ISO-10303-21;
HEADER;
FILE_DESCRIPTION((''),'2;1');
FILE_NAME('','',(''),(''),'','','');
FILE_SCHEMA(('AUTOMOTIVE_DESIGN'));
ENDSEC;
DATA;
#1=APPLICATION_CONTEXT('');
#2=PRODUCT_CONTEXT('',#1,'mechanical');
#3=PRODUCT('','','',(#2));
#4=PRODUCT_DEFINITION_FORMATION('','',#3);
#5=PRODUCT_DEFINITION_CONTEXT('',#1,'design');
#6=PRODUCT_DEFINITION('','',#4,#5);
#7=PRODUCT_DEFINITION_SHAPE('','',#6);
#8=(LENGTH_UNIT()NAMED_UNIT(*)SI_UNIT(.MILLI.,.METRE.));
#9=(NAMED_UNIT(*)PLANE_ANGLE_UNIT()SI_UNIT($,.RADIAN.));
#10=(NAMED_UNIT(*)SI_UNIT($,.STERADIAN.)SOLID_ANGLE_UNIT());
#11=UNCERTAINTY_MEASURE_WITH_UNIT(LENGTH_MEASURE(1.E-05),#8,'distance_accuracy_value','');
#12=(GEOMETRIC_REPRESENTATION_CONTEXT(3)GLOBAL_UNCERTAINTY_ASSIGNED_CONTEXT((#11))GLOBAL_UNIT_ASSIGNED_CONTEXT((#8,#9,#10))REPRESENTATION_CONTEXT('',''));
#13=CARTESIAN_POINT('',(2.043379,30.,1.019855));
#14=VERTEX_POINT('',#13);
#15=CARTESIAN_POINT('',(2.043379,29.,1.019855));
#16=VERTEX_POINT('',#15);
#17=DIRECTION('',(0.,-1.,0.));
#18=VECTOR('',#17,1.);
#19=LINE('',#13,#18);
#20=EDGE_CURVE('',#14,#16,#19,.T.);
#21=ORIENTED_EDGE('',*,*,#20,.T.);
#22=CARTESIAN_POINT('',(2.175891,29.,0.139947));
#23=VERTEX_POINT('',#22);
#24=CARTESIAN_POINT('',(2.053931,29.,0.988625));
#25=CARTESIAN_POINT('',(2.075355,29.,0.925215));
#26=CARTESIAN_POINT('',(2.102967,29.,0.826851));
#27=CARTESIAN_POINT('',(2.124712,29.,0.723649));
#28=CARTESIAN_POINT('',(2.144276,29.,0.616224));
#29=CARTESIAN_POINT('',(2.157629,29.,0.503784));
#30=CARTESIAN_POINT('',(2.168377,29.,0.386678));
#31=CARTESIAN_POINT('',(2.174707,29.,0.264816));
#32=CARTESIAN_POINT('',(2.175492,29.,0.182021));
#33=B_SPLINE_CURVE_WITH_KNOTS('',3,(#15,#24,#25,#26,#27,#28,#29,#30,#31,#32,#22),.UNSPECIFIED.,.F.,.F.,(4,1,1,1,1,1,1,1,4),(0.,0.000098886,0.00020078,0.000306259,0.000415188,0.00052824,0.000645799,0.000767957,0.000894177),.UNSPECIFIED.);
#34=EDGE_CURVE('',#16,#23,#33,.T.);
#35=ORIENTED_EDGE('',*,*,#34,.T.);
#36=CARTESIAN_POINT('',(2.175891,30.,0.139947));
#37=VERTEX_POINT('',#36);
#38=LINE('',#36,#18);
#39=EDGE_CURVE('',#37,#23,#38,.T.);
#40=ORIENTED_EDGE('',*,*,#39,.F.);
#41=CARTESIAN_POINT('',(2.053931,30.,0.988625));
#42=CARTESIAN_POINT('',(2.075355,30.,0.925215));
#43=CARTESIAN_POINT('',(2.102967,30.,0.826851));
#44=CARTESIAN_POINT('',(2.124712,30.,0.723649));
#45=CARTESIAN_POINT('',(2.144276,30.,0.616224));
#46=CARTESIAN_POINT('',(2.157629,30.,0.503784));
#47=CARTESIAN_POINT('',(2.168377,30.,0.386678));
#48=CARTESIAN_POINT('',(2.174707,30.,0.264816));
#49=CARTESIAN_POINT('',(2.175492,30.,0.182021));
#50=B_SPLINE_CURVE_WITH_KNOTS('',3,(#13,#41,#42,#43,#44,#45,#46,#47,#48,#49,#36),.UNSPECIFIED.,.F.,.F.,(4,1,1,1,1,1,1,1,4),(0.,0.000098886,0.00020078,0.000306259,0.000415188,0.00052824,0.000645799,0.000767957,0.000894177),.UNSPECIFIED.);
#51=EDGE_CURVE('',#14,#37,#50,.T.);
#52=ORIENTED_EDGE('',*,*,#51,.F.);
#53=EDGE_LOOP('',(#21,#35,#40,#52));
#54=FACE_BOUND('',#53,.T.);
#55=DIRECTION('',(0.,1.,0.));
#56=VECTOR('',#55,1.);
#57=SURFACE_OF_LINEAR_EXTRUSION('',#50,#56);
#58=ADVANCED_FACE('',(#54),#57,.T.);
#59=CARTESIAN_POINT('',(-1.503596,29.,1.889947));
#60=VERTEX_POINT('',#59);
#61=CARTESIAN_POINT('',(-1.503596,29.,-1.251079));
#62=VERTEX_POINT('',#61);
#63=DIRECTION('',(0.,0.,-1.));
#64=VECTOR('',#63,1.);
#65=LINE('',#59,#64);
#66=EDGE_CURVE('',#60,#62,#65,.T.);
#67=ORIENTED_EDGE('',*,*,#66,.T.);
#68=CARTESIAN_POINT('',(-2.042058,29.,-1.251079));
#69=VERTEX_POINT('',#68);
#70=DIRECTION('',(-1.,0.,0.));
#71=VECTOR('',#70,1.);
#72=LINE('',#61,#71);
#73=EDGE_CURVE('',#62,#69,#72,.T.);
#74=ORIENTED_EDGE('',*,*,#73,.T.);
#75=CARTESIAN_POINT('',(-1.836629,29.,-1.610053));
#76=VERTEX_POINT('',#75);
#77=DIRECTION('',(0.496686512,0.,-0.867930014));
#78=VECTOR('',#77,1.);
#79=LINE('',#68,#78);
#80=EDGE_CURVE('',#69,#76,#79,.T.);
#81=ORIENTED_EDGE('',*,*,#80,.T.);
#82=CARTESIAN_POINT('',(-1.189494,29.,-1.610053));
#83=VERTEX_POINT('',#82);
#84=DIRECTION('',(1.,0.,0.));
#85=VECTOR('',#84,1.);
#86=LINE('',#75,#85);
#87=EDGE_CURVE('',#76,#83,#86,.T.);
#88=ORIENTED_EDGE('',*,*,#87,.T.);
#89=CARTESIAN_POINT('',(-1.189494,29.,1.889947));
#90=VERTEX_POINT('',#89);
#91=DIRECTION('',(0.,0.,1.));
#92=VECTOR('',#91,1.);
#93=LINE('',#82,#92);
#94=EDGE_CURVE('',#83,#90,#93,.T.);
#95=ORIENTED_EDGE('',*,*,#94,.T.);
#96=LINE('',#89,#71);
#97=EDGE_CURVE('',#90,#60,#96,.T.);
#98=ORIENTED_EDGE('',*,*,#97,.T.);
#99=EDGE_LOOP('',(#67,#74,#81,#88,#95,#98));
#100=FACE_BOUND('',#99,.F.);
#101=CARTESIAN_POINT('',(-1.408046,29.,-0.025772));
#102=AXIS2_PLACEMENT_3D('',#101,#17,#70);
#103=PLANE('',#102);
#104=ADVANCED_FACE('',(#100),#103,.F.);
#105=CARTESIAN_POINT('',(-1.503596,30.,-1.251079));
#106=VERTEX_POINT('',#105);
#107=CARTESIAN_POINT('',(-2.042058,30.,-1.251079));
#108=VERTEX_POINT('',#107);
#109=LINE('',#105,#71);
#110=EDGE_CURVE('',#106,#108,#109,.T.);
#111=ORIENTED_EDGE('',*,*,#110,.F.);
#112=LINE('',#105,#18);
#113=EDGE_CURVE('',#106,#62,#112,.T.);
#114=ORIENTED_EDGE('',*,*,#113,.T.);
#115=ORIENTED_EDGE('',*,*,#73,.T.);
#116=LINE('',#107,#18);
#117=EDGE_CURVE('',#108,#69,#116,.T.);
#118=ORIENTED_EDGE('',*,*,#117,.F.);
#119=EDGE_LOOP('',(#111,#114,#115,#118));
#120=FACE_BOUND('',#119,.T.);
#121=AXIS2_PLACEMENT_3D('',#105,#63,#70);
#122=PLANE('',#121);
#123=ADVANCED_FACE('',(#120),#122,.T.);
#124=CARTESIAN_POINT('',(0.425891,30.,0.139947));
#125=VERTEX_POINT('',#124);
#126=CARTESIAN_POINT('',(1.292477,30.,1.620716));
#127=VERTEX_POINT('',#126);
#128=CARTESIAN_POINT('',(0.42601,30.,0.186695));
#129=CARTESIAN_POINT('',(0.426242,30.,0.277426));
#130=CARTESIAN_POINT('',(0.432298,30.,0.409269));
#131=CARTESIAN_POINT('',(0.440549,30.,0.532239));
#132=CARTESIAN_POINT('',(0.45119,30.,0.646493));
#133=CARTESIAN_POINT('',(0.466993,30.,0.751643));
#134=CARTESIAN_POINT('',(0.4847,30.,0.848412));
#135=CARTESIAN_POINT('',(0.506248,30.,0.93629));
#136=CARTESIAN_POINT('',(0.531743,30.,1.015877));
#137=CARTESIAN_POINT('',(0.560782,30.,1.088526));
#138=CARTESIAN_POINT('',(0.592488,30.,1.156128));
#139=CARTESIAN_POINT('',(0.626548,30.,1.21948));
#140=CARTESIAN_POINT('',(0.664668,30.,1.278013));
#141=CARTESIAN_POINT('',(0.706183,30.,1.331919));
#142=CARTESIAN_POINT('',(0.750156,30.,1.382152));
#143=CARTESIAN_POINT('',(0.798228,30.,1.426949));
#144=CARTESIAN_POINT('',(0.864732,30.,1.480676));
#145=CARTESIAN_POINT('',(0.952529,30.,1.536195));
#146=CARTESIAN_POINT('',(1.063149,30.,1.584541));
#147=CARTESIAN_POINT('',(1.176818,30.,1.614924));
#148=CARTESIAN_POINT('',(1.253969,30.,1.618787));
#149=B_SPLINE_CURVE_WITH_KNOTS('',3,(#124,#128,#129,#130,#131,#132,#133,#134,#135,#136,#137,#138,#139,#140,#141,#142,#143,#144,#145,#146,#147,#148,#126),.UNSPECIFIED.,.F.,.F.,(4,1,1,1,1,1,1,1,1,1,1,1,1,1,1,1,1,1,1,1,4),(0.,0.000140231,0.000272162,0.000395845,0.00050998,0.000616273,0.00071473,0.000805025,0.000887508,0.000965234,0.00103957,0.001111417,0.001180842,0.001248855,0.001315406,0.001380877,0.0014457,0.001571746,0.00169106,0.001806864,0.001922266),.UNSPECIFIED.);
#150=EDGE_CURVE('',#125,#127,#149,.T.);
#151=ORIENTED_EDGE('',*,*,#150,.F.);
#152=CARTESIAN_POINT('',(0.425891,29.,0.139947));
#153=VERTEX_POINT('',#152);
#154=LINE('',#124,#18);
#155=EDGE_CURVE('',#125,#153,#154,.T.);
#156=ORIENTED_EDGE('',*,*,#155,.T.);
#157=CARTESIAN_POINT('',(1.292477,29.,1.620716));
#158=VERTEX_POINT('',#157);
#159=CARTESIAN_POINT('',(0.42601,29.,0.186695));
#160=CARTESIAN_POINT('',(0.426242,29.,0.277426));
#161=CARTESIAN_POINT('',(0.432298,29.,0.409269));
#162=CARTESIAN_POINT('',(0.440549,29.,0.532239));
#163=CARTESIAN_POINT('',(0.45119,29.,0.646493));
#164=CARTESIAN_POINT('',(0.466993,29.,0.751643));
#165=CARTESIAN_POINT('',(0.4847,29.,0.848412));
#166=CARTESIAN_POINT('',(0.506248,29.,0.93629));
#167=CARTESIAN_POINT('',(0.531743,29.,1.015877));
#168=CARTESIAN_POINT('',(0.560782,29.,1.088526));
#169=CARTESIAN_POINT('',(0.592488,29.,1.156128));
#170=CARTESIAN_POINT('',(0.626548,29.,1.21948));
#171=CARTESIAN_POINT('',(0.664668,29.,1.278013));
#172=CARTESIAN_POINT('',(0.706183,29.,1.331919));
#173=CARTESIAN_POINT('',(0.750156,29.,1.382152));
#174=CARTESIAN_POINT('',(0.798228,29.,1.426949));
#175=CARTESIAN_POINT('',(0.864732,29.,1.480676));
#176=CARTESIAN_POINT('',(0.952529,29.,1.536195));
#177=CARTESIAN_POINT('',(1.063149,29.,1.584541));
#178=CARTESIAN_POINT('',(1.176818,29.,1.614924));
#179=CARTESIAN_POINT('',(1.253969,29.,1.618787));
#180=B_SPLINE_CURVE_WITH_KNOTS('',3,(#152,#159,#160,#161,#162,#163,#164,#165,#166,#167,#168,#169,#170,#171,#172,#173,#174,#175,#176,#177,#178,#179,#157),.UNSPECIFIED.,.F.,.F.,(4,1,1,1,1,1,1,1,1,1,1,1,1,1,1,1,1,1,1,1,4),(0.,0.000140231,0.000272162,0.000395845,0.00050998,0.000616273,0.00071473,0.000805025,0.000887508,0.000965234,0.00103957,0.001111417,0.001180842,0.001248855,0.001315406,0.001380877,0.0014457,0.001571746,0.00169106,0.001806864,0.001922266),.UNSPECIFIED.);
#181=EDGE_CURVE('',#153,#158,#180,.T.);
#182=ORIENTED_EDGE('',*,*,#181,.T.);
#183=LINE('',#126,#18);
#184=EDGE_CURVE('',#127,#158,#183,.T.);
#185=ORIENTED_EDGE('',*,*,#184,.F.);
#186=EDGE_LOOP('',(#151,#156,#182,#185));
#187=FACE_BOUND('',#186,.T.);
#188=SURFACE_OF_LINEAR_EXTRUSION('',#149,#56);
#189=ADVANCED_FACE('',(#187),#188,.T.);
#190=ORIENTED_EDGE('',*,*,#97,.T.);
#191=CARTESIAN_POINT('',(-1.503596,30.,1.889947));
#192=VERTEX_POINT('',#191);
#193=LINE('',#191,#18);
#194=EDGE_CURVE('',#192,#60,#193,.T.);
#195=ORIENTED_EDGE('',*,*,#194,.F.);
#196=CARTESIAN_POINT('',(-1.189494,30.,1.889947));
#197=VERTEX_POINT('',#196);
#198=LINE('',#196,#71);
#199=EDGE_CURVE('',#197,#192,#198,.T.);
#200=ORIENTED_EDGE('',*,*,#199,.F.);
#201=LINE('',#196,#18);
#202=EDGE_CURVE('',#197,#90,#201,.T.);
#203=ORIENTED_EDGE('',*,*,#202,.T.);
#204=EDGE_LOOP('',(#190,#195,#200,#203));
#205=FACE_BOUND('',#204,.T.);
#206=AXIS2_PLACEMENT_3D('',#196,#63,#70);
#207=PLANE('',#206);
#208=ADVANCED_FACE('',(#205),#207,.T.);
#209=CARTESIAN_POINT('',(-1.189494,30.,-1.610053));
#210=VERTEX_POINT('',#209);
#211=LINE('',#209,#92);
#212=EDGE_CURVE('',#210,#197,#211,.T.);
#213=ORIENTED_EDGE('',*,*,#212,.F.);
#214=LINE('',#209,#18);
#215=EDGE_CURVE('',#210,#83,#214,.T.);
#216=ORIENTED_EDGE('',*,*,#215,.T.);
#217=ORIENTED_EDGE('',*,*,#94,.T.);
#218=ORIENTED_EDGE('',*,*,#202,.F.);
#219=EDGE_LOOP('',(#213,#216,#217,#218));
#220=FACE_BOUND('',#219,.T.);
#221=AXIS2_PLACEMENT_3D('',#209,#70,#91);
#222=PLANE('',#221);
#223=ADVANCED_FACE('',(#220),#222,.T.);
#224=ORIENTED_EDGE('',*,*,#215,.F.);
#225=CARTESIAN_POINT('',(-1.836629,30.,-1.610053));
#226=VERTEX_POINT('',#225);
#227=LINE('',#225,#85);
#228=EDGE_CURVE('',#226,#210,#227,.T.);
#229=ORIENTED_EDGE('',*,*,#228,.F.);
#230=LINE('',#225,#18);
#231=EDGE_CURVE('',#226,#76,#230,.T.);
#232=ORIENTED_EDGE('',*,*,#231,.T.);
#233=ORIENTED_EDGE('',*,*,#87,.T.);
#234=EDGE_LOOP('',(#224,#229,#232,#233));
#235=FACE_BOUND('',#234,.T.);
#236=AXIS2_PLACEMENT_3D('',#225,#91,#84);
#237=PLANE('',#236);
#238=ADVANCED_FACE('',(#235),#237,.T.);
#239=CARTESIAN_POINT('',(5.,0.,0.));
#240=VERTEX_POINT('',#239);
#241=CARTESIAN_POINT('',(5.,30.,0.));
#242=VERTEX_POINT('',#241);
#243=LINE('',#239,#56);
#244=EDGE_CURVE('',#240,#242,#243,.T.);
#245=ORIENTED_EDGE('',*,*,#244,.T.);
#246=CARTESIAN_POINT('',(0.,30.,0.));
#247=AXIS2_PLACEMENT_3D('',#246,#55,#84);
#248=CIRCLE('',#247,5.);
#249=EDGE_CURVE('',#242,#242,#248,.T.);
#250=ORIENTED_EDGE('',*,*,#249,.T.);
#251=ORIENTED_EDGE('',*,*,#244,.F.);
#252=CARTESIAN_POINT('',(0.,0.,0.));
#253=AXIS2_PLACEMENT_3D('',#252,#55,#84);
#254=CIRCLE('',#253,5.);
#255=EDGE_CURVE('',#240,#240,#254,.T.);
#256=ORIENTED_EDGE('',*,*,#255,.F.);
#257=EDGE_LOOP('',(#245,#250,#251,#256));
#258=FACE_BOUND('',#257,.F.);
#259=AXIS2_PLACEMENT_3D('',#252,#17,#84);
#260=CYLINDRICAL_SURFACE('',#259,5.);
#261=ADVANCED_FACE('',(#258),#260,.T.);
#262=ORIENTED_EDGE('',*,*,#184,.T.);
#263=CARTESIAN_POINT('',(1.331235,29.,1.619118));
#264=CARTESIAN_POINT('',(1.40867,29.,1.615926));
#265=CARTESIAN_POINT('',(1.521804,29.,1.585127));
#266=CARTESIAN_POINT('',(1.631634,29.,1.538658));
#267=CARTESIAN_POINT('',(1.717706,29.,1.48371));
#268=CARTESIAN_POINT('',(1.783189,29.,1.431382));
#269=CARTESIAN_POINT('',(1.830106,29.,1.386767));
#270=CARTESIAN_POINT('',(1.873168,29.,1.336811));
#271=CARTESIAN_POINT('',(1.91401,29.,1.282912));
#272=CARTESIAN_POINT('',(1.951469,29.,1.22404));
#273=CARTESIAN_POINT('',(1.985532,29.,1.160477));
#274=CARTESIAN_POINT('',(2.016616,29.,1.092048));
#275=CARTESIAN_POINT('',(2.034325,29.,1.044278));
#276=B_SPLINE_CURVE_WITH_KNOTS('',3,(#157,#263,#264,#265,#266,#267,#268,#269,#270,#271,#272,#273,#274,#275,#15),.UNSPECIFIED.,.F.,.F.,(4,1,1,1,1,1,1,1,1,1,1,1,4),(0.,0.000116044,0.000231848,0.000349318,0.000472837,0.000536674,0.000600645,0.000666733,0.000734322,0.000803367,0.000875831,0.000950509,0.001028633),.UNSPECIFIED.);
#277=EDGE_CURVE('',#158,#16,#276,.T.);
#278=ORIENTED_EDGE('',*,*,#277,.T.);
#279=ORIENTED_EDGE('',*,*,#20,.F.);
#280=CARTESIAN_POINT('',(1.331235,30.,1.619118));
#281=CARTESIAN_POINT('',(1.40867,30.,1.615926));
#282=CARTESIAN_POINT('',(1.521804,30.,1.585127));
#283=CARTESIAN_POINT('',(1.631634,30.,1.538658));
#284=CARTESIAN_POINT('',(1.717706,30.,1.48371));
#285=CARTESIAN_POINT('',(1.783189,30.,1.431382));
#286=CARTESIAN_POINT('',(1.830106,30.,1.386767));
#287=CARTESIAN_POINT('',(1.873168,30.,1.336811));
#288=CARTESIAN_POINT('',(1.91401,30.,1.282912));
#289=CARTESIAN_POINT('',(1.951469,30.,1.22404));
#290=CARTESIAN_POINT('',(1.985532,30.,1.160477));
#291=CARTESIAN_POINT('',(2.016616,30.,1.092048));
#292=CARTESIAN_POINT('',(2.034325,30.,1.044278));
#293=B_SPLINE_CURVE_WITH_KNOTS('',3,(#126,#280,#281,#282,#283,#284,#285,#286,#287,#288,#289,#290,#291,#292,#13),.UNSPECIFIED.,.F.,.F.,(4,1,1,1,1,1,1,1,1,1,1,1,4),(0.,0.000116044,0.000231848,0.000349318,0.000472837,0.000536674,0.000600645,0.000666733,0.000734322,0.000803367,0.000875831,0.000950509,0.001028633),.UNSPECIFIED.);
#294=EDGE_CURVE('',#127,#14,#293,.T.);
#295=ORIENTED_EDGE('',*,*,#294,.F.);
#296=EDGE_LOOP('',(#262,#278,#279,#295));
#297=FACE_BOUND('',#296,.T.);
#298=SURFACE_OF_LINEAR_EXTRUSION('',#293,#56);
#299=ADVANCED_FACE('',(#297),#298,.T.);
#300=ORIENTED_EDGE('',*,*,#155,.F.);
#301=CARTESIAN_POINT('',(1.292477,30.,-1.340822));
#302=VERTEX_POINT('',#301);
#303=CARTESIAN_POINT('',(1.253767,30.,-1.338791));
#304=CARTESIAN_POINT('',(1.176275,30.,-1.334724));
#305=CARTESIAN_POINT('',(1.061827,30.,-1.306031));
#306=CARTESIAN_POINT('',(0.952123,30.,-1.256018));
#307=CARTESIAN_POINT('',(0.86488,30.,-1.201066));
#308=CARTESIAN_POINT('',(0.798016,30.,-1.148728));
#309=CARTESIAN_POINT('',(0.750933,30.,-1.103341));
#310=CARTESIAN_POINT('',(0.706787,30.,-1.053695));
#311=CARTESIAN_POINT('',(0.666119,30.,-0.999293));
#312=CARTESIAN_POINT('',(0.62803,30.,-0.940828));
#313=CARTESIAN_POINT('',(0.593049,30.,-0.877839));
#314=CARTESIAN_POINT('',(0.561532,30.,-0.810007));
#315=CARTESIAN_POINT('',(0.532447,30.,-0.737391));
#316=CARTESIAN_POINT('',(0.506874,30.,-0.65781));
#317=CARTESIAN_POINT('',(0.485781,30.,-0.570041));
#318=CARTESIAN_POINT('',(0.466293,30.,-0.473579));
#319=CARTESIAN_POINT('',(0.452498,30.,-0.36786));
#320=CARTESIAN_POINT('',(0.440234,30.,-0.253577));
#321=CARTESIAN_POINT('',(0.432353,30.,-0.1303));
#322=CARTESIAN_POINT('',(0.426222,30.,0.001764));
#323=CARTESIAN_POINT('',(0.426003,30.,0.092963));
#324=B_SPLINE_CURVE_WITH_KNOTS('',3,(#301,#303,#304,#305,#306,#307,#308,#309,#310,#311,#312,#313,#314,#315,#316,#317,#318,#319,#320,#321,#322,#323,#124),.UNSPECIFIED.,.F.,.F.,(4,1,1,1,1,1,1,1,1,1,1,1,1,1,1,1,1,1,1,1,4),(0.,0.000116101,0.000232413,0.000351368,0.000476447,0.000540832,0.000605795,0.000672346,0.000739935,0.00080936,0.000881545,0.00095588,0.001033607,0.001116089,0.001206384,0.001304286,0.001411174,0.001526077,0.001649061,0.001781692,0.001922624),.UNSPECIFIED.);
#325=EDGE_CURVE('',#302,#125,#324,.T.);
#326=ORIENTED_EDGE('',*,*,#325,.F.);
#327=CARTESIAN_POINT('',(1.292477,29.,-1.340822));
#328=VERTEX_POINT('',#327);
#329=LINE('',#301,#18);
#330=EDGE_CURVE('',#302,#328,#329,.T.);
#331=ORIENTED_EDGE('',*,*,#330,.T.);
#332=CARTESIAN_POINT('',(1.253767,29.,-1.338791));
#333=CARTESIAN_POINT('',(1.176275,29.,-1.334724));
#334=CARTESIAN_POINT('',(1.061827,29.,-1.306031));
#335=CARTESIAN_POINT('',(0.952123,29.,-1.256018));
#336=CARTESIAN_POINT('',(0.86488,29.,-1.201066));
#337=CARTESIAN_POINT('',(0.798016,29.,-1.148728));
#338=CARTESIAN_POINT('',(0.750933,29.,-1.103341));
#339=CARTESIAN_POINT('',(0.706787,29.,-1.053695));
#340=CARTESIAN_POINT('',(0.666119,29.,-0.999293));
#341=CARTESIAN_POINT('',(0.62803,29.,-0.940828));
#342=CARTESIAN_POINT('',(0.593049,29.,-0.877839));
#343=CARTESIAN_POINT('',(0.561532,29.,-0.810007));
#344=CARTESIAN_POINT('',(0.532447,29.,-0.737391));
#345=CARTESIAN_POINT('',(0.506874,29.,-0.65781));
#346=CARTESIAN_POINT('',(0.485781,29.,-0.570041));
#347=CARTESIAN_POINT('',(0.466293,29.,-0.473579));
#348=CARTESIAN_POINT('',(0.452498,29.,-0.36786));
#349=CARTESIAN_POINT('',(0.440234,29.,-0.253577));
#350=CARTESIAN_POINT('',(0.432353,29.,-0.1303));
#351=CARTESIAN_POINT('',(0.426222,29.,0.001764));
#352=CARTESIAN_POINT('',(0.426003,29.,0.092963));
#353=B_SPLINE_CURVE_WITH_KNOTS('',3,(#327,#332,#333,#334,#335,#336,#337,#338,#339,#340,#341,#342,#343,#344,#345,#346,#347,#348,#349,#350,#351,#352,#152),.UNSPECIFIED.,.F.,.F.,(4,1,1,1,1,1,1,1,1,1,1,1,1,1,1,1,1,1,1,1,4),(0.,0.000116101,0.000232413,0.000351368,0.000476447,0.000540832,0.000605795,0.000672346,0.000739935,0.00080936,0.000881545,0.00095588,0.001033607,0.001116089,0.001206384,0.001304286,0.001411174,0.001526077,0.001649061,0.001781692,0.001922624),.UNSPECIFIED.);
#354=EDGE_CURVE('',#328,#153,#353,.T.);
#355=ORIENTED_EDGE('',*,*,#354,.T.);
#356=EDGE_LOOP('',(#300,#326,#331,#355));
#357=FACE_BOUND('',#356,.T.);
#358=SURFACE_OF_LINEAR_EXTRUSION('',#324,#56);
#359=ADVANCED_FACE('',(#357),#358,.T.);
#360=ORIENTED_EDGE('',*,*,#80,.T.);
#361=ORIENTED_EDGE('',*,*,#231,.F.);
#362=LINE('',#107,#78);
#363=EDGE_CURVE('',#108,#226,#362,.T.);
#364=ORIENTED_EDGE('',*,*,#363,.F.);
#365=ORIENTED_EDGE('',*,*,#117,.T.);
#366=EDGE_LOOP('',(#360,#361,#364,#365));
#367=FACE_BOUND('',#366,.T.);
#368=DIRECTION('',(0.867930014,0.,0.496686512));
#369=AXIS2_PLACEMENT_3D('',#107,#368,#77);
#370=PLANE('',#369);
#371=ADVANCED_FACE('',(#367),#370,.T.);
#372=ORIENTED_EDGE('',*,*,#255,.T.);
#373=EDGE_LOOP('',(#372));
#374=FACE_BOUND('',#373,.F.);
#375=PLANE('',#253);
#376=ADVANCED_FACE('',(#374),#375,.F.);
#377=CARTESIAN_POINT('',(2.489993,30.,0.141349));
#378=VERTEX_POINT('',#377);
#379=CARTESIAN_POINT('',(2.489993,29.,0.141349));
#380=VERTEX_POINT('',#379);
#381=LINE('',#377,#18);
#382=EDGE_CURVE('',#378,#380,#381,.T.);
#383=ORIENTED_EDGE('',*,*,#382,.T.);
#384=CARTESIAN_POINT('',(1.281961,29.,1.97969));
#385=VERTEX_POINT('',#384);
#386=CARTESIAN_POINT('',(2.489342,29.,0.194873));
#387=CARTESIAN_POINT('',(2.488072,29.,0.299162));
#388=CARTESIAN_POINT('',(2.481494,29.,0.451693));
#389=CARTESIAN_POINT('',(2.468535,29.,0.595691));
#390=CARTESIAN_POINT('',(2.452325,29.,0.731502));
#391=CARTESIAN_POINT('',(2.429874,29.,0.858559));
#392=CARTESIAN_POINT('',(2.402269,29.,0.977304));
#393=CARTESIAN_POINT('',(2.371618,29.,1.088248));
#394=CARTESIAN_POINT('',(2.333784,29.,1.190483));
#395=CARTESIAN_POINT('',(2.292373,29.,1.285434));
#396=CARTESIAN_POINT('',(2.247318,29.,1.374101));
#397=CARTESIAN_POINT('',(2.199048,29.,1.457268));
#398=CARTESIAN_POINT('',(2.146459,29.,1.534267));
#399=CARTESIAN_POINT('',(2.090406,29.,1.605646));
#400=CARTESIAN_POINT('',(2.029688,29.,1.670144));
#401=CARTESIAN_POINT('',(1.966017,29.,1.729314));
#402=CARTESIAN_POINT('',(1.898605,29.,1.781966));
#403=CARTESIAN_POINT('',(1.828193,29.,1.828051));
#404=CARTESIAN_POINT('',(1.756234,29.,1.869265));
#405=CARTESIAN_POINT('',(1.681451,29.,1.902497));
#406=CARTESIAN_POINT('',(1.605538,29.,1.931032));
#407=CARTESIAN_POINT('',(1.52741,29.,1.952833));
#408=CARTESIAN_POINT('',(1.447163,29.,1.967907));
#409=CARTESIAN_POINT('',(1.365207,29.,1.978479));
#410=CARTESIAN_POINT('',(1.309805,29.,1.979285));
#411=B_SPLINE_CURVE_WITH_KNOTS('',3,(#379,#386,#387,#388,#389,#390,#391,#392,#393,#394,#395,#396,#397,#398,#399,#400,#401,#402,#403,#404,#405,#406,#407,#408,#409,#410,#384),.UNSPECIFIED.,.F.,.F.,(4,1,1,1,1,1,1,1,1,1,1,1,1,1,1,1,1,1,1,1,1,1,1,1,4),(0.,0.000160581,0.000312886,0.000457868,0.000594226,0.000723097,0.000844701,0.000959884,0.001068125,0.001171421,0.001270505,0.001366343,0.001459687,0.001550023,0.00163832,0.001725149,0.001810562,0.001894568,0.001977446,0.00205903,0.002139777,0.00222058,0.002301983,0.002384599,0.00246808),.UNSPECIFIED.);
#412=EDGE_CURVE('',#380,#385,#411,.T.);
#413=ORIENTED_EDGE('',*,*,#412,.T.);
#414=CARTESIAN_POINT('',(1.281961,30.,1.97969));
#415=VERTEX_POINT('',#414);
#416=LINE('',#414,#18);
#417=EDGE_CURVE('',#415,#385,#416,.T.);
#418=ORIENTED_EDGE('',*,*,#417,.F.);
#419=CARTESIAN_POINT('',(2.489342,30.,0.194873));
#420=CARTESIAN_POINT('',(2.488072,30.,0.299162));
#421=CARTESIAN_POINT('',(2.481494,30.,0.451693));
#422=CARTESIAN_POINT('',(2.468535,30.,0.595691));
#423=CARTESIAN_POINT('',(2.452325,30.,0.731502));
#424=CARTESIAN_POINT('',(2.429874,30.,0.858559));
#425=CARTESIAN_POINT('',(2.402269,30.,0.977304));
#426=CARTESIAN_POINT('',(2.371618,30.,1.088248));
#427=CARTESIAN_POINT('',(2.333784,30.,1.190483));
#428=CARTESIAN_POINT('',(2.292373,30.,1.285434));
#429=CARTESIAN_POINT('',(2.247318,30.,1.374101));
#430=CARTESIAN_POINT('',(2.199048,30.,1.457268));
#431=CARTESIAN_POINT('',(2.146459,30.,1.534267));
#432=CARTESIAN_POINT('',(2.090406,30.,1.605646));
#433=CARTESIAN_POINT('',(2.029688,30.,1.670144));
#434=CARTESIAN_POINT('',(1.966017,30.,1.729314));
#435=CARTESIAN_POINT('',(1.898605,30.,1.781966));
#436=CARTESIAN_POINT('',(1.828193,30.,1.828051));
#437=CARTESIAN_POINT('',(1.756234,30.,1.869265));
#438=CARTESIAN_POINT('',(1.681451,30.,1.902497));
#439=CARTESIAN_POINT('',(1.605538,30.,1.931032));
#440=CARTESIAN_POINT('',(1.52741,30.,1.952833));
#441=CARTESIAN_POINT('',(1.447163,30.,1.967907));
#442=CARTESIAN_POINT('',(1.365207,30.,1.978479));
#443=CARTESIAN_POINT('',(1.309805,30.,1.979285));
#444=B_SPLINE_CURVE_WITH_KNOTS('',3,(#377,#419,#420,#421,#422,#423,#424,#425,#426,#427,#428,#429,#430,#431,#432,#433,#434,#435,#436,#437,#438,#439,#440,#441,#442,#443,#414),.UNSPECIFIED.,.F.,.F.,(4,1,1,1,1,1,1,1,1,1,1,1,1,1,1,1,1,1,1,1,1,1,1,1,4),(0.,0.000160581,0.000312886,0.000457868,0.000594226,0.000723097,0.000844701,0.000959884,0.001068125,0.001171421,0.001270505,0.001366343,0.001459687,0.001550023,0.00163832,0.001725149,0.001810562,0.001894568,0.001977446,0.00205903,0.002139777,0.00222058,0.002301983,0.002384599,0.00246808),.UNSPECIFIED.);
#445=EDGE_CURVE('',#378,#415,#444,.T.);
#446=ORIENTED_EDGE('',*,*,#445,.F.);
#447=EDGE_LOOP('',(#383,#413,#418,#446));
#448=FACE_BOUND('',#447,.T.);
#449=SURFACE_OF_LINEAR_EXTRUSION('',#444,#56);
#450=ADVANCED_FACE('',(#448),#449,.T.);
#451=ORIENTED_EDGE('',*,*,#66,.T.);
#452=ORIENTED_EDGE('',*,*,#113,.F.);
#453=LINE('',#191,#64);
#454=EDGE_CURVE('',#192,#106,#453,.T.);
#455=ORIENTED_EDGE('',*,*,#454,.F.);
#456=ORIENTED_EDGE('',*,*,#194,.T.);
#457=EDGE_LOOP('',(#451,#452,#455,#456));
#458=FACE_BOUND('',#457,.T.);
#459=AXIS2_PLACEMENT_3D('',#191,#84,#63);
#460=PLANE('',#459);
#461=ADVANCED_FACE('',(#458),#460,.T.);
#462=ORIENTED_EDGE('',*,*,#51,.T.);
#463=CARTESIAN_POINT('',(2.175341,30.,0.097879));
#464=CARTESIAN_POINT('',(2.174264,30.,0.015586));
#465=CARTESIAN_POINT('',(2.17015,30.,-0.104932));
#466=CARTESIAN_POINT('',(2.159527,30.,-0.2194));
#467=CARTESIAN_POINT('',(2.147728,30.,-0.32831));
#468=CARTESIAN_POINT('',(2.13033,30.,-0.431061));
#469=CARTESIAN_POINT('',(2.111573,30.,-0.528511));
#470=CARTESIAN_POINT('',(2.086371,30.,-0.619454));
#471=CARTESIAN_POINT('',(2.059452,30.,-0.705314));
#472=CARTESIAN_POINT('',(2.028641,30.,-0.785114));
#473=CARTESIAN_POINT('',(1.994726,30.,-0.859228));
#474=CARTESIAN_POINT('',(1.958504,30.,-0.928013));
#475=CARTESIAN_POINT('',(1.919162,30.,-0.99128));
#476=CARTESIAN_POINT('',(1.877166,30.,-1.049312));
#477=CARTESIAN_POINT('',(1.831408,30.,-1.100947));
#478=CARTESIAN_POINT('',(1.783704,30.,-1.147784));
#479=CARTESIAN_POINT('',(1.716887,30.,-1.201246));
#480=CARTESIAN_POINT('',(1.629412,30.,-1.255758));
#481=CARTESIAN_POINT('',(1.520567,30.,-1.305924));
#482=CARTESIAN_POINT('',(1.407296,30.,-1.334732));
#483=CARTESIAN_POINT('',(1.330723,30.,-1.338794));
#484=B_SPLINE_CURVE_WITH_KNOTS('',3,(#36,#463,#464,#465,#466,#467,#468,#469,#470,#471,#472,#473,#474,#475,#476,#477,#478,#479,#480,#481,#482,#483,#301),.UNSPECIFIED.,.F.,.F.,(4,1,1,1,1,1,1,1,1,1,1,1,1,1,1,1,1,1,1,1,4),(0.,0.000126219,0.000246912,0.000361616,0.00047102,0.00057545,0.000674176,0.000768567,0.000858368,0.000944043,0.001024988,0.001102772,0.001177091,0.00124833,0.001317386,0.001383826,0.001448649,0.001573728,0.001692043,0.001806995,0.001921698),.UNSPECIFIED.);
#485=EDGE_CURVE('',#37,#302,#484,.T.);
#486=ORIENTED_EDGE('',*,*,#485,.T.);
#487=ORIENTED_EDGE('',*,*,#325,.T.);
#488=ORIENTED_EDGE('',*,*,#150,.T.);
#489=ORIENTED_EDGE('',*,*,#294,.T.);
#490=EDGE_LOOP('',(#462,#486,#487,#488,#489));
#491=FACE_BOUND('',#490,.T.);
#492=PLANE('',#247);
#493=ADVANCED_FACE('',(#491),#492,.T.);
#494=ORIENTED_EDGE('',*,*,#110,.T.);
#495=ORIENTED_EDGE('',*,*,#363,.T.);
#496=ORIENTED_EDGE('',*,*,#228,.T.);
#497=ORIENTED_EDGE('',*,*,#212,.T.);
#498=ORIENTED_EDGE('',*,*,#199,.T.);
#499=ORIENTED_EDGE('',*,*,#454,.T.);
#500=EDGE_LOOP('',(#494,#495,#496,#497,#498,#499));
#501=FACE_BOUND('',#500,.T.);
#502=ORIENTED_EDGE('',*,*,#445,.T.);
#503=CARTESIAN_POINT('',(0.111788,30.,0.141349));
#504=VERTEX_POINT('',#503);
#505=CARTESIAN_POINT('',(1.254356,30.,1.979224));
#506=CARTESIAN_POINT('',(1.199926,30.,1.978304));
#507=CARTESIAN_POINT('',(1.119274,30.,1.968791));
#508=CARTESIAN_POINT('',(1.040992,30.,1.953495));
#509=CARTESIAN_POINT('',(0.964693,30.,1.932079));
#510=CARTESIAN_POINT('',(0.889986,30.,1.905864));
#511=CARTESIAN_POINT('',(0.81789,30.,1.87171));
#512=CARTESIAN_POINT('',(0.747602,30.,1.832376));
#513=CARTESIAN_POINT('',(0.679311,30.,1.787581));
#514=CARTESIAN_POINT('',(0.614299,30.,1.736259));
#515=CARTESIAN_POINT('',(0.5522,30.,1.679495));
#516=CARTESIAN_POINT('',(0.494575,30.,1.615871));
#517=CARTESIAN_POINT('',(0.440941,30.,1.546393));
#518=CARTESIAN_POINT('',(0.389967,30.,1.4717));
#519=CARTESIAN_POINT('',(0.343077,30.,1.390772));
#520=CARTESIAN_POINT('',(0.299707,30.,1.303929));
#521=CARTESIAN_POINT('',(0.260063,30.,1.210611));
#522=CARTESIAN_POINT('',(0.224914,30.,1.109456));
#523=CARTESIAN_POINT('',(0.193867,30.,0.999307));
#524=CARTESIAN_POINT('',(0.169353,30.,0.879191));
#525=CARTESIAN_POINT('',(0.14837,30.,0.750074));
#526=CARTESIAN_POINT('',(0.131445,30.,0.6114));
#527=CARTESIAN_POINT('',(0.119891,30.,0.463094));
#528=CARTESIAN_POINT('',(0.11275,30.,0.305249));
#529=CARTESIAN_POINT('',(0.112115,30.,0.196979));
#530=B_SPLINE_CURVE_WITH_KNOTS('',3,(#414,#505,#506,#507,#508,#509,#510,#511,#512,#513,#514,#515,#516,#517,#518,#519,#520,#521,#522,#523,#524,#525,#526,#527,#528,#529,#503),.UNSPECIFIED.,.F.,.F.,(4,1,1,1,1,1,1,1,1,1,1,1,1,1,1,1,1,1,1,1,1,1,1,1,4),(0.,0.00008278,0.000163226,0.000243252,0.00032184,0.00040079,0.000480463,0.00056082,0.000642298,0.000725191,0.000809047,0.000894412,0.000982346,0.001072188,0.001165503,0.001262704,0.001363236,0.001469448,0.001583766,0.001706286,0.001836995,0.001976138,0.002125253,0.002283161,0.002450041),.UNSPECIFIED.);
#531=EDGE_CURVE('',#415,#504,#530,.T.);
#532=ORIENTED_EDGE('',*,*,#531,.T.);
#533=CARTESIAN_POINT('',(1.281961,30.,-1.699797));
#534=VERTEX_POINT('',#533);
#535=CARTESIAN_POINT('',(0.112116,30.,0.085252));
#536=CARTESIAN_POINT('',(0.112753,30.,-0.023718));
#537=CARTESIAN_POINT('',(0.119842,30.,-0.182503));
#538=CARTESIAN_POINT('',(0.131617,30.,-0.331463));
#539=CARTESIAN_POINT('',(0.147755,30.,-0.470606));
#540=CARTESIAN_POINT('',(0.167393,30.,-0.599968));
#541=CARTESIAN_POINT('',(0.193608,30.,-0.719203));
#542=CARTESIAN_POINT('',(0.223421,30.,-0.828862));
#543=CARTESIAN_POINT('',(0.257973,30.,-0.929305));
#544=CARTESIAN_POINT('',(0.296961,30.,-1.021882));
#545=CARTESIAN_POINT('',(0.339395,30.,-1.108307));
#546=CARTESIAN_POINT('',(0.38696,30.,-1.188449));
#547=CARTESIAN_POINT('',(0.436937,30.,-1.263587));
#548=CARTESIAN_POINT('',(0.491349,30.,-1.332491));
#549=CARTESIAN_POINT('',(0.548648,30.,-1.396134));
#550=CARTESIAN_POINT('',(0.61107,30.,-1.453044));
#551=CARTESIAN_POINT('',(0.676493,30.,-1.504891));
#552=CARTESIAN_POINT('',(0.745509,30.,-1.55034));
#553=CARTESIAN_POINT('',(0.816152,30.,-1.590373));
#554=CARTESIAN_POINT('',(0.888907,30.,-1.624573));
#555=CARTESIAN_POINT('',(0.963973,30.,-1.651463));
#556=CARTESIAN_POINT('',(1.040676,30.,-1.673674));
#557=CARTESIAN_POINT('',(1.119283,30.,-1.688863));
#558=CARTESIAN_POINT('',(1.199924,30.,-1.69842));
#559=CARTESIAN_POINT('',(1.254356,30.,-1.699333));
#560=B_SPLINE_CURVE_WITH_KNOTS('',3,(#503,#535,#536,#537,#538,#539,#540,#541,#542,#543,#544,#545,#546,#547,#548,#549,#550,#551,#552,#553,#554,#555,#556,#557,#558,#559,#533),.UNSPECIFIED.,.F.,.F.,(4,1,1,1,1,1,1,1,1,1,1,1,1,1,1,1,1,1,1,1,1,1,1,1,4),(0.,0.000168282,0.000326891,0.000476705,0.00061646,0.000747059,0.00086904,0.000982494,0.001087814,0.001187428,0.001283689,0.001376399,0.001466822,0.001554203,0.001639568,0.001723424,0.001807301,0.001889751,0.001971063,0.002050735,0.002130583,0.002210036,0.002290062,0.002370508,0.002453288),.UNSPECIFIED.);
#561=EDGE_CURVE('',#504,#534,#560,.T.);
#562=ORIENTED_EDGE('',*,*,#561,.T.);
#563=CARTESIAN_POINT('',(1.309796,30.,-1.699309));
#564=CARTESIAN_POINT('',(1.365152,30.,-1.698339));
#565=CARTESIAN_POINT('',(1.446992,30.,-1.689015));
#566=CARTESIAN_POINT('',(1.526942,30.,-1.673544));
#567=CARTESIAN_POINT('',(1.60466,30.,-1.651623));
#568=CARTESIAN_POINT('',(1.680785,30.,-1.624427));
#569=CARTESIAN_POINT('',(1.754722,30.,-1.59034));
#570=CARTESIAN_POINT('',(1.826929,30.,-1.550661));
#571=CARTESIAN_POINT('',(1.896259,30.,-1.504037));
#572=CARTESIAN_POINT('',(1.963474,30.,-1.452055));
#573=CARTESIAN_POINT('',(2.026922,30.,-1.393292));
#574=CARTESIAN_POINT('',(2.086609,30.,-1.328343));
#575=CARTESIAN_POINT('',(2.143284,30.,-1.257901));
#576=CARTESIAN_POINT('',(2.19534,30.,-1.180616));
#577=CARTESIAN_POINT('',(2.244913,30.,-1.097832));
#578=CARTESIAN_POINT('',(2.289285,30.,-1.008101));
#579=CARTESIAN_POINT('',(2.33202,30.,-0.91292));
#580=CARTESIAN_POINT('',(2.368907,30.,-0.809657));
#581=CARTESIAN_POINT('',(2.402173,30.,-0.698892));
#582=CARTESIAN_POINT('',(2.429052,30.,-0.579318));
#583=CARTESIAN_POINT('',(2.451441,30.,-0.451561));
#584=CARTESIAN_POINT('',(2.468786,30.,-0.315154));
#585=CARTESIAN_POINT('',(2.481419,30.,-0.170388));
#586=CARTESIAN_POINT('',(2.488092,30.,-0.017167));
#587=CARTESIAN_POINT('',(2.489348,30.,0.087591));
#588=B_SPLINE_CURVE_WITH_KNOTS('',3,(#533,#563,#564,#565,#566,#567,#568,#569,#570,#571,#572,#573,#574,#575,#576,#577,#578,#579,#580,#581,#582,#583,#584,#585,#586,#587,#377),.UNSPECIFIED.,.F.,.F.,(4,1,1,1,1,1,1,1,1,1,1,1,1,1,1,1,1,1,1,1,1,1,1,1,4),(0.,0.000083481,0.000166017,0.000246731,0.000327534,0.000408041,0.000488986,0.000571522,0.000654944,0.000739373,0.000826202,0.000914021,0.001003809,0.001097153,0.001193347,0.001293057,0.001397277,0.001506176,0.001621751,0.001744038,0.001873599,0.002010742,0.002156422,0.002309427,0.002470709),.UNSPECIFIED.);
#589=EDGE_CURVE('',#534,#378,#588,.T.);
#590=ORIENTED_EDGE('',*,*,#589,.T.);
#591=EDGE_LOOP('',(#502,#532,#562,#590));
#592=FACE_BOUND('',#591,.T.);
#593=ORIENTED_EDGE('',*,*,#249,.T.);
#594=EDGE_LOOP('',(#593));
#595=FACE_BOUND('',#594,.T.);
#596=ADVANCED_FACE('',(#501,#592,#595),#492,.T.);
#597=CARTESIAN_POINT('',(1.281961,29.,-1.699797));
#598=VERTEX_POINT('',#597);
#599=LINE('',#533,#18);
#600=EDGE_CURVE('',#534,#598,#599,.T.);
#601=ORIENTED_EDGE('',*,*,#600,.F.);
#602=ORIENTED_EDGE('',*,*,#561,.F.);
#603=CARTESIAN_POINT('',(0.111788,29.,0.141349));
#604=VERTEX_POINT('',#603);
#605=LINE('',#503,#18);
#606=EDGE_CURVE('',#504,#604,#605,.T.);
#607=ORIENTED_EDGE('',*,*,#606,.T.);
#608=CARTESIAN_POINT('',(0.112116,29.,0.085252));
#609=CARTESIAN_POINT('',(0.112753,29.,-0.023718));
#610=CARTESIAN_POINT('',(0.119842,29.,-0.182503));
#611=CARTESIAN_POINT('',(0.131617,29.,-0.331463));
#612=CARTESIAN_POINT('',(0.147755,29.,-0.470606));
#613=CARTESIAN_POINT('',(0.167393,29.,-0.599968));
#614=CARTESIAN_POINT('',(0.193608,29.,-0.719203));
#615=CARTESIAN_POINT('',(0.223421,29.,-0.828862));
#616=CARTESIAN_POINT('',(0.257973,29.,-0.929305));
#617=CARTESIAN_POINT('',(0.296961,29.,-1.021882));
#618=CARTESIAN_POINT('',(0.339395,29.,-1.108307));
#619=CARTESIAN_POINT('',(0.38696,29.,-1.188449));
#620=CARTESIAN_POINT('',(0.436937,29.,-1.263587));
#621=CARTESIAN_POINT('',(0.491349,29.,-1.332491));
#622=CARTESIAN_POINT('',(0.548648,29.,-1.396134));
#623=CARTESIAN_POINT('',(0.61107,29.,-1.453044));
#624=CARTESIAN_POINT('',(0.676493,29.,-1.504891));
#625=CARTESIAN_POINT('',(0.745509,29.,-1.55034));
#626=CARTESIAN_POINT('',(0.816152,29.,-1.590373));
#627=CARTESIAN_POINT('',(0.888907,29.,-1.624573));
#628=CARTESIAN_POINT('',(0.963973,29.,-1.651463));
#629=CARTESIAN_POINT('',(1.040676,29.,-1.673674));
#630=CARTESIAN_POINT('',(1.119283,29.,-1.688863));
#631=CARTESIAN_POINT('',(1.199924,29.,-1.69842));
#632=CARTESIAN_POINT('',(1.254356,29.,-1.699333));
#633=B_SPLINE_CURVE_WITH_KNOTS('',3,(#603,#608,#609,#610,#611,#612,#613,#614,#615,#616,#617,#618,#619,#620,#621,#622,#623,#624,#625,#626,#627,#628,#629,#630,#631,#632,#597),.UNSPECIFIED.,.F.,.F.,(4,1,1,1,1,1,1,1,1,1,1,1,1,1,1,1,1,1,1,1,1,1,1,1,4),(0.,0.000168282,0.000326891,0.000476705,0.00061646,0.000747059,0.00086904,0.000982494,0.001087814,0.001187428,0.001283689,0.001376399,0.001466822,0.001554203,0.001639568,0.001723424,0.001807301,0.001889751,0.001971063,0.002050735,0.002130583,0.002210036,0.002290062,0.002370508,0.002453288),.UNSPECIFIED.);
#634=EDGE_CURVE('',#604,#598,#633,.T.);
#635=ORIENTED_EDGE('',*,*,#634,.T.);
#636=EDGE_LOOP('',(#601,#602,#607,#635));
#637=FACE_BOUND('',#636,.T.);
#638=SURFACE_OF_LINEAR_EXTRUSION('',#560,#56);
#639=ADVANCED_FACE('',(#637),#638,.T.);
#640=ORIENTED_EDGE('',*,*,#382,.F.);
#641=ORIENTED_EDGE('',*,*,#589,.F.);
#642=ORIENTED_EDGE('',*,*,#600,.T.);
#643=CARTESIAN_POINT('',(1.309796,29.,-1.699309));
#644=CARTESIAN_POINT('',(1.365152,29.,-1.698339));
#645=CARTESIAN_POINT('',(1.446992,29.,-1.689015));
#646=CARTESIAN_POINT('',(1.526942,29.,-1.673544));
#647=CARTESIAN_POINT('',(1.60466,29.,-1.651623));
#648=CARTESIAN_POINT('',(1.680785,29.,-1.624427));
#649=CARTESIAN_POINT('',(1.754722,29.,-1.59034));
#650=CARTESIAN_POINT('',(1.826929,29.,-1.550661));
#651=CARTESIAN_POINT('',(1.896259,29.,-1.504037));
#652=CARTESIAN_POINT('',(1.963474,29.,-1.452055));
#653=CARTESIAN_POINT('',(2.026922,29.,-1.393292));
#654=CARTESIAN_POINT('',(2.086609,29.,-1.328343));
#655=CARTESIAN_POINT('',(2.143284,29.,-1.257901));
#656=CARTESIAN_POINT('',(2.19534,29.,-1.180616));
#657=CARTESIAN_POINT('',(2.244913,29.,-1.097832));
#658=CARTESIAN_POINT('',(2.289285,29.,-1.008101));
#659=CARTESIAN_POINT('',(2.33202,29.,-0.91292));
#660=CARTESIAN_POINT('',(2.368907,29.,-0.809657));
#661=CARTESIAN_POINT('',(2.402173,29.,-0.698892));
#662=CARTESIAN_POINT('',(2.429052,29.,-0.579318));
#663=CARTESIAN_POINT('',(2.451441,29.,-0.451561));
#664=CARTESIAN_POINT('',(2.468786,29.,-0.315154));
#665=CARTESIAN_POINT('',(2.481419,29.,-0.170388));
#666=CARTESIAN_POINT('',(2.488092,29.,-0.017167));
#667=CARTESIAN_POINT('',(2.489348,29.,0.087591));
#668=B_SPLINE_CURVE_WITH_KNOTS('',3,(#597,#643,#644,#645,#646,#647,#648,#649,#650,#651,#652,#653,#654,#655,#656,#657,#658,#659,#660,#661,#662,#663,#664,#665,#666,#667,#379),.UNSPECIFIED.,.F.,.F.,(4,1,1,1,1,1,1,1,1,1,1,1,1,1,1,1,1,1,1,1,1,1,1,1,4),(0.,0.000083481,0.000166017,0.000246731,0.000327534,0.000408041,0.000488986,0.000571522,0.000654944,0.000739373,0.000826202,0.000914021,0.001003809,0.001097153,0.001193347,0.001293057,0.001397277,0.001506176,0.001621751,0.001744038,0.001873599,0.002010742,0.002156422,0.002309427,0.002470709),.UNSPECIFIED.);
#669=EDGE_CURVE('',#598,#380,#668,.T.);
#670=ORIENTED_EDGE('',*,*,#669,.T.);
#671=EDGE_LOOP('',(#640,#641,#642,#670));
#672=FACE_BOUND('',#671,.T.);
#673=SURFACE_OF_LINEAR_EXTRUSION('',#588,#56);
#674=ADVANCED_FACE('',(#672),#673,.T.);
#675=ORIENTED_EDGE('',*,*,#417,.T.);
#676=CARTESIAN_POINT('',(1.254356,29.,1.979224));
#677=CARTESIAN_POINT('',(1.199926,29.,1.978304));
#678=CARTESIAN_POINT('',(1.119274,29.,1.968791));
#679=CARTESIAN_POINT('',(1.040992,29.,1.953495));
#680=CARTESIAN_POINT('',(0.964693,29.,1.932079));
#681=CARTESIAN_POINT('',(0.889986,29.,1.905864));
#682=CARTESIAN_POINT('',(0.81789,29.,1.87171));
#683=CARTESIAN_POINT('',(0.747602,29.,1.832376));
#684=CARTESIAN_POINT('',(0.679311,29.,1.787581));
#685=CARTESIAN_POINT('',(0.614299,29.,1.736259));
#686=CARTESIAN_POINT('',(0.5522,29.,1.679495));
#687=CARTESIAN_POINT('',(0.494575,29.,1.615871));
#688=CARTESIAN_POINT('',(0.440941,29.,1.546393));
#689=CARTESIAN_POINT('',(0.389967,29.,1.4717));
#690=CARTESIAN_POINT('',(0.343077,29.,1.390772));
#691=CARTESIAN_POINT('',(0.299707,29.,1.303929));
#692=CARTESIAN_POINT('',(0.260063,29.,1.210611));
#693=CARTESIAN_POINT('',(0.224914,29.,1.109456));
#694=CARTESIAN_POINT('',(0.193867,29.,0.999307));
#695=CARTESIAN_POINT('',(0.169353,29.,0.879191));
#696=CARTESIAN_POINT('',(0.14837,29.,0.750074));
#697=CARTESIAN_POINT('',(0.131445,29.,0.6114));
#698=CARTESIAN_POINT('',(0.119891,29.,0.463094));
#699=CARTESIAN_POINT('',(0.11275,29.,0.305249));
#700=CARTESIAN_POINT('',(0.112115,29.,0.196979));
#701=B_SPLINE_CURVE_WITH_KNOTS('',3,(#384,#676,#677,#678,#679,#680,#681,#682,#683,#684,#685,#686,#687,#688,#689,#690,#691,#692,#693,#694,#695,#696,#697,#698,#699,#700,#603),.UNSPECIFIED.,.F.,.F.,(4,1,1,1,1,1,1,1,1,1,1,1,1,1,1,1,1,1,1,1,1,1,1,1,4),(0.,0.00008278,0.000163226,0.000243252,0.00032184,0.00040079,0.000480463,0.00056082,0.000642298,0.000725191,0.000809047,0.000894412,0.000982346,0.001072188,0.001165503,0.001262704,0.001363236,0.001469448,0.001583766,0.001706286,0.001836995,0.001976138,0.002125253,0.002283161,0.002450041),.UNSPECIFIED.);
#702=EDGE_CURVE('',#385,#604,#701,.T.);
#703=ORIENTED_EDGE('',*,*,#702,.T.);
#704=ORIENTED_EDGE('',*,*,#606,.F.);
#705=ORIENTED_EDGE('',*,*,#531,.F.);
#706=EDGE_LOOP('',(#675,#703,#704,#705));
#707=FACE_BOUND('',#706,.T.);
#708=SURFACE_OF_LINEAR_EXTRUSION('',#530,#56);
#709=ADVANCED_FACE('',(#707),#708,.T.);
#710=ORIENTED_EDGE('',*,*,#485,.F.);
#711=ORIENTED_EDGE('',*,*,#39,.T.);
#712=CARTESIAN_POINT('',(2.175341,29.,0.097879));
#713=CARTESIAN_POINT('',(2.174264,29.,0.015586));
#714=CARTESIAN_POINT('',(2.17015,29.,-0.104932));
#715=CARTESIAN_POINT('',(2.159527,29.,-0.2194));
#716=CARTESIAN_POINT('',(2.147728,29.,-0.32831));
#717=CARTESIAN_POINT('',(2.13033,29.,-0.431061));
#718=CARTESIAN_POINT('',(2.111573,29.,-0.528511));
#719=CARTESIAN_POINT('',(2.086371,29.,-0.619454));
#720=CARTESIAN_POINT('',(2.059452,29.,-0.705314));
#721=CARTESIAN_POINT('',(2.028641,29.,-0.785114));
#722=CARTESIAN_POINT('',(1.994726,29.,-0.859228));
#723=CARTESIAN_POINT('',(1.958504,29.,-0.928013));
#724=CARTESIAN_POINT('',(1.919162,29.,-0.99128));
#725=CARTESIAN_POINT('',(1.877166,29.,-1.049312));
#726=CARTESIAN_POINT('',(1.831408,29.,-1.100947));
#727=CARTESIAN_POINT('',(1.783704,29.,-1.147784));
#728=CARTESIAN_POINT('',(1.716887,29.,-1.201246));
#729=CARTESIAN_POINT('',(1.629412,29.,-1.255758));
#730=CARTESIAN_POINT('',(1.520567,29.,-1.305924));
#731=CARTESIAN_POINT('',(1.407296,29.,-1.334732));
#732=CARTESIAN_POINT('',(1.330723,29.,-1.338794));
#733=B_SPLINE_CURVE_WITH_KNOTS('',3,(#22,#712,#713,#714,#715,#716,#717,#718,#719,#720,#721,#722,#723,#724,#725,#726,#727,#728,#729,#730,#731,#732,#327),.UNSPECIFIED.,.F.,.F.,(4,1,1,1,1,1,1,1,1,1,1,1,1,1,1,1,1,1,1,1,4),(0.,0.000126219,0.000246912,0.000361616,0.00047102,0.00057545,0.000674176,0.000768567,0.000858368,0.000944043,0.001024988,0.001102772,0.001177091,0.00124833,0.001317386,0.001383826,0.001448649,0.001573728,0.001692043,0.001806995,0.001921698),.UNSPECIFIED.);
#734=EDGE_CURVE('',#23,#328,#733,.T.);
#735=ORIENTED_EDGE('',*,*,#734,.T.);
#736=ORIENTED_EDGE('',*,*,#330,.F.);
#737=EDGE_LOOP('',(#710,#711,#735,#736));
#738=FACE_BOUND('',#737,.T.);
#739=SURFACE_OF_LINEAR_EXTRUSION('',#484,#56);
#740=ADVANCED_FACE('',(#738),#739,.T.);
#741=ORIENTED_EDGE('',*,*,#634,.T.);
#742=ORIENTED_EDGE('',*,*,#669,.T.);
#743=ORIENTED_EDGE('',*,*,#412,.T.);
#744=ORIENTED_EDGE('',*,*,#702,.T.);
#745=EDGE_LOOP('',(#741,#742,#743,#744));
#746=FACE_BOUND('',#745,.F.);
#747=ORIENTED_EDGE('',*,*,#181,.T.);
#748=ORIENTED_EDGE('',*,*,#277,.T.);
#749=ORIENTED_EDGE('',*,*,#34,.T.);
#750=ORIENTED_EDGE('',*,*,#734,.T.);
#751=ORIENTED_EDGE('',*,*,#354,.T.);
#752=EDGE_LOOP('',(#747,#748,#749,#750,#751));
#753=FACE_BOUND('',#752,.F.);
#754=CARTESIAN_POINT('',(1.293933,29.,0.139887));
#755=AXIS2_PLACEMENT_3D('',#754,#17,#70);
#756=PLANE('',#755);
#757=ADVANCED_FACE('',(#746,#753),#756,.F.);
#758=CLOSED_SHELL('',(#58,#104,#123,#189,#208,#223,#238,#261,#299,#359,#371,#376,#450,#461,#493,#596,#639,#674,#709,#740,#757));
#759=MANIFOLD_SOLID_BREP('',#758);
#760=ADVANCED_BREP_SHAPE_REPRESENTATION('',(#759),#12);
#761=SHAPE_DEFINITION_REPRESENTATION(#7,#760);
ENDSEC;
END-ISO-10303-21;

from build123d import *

# Parameters (mm, degrees)
SKETCH1_R           = 5
BOSS_EXTRUDE1_DEPTH = 30
CUT_EXTRUDE1_DEPTH  = 1


with BuildPart() as part:
    # Sketch1 → Boss-Extrude1 (new body)
    with BuildSketch(Plane(origin=(0, 0, 0), x_dir=(1, 0, 0), z_dir=(0, 1, 0))):
        Circle(SKETCH1_R)
    extrude(amount=BOSS_EXTRUDE1_DEPTH)

    # Sketch2 → Cut-Extrude1 (cut)
    with BuildSketch(Plane(origin=(0, 30, 0), x_dir=(1, 0, 0), z_dir=(0, 1, 0))):
        Polygon((-1.836629209, 1.610053215), (-1.189493792, 1.610053215), (-1.189493792, -1.889946785), (-1.503596356, -1.889946785), (-1.503596356, 1.251078856), (-2.042057895, 1.251078856), align=None)
        with BuildLine():
            add(Edge.make_bspline(
                [(0.111788259, -0.141349029), (0.112116277, -0.085251641), (0.112753457, 0.023718343), (0.119841878, 0.182502986), (0.131617221, 0.331463275), (0.147754593, 0.470606341), (0.167392574, 0.599968105), (0.19360806, 0.719202862), (0.223420863, 0.828862469), (0.257973309, 0.929304517), (0.296961098, 1.02188222), (0.339395358, 1.108307422), (0.386960153, 1.188449354), (0.436937066, 1.263587144), (0.491349137, 1.332490839), (0.548647928, 1.396133502), (0.611069804, 1.453044252), (0.676492812, 1.504890555), (0.745509277, 1.550340026), (0.816151943, 1.590372765), (0.888907049, 1.624572632), (0.963973232, 1.651463068), (1.04067579, 1.673673915), (1.119282856, 1.688862862), (1.19992422, 1.698419771), (1.254355655, 1.699333439), (1.281960535, 1.699796805)],
                knots=[0, 0, 0, 0, 0.000168282, 0.000326891, 0.000476705, 0.00061646, 0.000747059, 0.00086904, 0.000982494, 0.001087814, 0.001187428, 0.001283689, 0.001376399, 0.001466822, 0.001554203, 0.001639568, 0.001723424, 0.001807301, 0.001889751, 0.001971063, 0.002050735, 0.002130583, 0.002210036, 0.002290062, 0.002370508, 0.002453288, 0.002453288, 0.002453288, 0.002453288], degree=3))
            add(Edge.make_bspline(
                [(1.281960535, 1.699796805), (1.309796013, 1.69930899), (1.365152022, 1.698338879), (1.446992397, 1.689014936), (1.526942079, 1.673543813), (1.604660218, 1.651622839), (1.680785204, 1.624427162), (1.754721612, 1.590340045), (1.826928694, 1.550661177), (1.896258981, 1.5040373), (1.963473596, 1.452055024), (2.026921559, 1.393292355), (2.086608645, 1.328342636), (2.143283951, 1.257900772), (2.195339548, 1.180615687), (2.24491298, 1.097831577), (2.289285016, 1.008100712), (2.332019691, 0.912920245), (2.368906678, 0.809656586), (2.402172923, 0.698891825), (2.429051892, 0.579317638), (2.451441164, 0.451561393), (2.46878606, 0.31515391), (2.481418702, 0.170387594), (2.488091787, 0.017167204), (2.489348488, -0.087590645), (2.489993387, -0.141349029)],
                knots=[0, 0, 0, 0, 8.3481e-05, 0.000166017, 0.000246731, 0.000327534, 0.000408041, 0.000488986, 0.000571522, 0.000654944, 0.000739373, 0.000826202, 0.000914021, 0.001003809, 0.001097153, 0.001193347, 0.001293057, 0.001397277, 0.001506176, 0.001621751, 0.001744038, 0.001873599, 0.002010742, 0.002156422, 0.002309427, 0.002470709, 0.002470709, 0.002470709, 0.002470709], degree=3))
            add(Edge.make_bspline(
                [(2.489993387, -0.141349029), (2.489341803, -0.194872936), (2.488072217, -0.299162088), (2.48149351, -0.451693064), (2.468534879, -0.595691107), (2.452324891, -0.731501569), (2.429873928, -0.858559188), (2.402268761, -0.977303637), (2.371618439, -1.088247708), (2.333783644, -1.19048252), (2.292372934, -1.285434243), (2.247317738, -1.374101391), (2.199047912, -1.457267684), (2.146459167, -1.534267431), (2.090405754, -1.605646088), (2.029687965, -1.670143711), (1.96601738, -1.729314382), (1.898604964, -1.78196601), (1.828193413, -1.828050815), (1.756234336, -1.869264665), (1.681450952, -1.90249736), (1.605538, -1.931032401), (1.527409634, -1.952832853), (1.447163243, -1.967906708), (1.365207007, -1.978478557), (1.309805442, -1.979285037), (1.281960535, -1.979690375)],
                knots=[0, 0, 0, 0, 0.000160581, 0.000312886, 0.000457868, 0.000594226, 0.000723097, 0.000844701, 0.000959884, 0.001068125, 0.001171421, 0.001270505, 0.001366343, 0.001459687, 0.001550023, 0.00163832, 0.001725149, 0.001810562, 0.001894568, 0.001977446, 0.00205903, 0.002139777, 0.00222058, 0.002301983, 0.002384599, 0.00246808, 0.00246808, 0.00246808, 0.00246808], degree=3))
            add(Edge.make_bspline(
                [(1.281960535, -1.979690375), (1.254356421, -1.979224019), (1.199926496, -1.978304457), (1.119274071, -1.968790726), (1.040991627, -1.953495223), (0.964692873, -1.932078618), (0.889986358, -1.905863782), (0.817890071, -1.871710099), (0.747602388, -1.83237603), (0.679310832, -1.787580608), (0.614298671, -1.736258925), (0.552200065, -1.679494636), (0.494575046, -1.615871225), (0.440940951, -1.546393302), (0.389966862, -1.47170006), (0.343077489, -1.390771687), (0.299706635, -1.303929076), (0.260063144, -1.210611165), (0.224914481, -1.109456238), (0.193866773, -0.999307059), (0.169352615, -0.879191423), (0.14836966, -0.750074056), (0.131445277, -0.611400125), (0.119890952, -0.463094347), (0.112749637, -0.305249138), (0.112114566, -0.196979364), (0.111788259, -0.141349029)],
                knots=[0, 0, 0, 0, 8.278e-05, 0.000163226, 0.000243252, 0.00032184, 0.00040079, 0.000480463, 0.00056082, 0.000642298, 0.000725191, 0.000809047, 0.000894412, 0.000982346, 0.001072188, 0.001165503, 0.001262704, 0.001363236, 0.001469448, 0.001583766, 0.001706286, 0.001836995, 0.001976138, 0.002125253, 0.002283161, 0.002450041, 0.002450041, 0.002450041, 0.002450041], degree=3))
        make_face()
        with BuildLine():
            add(Edge.make_bspline(
                [(0.425890823, -0.139946785), (0.42601027, -0.186695484), (0.426242094, -0.277425529), (0.432298294, -0.40926879), (0.440548526, -0.532239118), (0.451189823, -0.646492655), (0.466992772, -0.751642667), (0.48469956, -0.84841235), (0.506247649, -0.936289587), (0.531742667, -1.015877398), (0.560781764, -1.088526467), (0.592487628, -1.156127682), (0.626548351, -1.219479618), (0.664667501, -1.278013227), (0.706182564, -1.331919391), (0.750155824, -1.382152223), (0.798228408, -1.426949204), (0.86473215, -1.480676059), (0.952528625, -1.536195193), (1.06314908, -1.584541283), (1.176817531, -1.614923739), (1.253968781, -1.618787495), (1.292477362, -1.620716016)],
                knots=[0, 0, 0, 0, 0.000140231, 0.000272162, 0.000395845, 0.00050998, 0.000616273, 0.00071473, 0.000805025, 0.000887508, 0.000965234, 0.00103957, 0.001111417, 0.001180842, 0.001248855, 0.001315406, 0.001380877, 0.0014457, 0.001571746, 0.00169106, 0.001806864, 0.001922266, 0.001922266, 0.001922266, 0.001922266], degree=3))
            add(Edge.make_bspline(
                [(1.292477362, -1.620716016), (1.331235033, -1.619118235), (1.408670357, -1.615925972), (1.521804152, -1.585127235), (1.631634422, -1.538657695), (1.717706362, -1.48371019), (1.783188906, -1.43138186), (1.830105896, -1.386767212), (1.873167944, -1.336811345), (1.914010019, -1.282912049), (1.951469095, -1.224039565), (1.985532232, -1.160476989), (2.01661558, -1.092047811), (2.034324626, -1.044278072), (2.043378804, -1.019854638)],
                knots=[0, 0, 0, 0, 0.000116044, 0.000231848, 0.000349318, 0.000472837, 0.000536674, 0.000600645, 0.000666733, 0.000734322, 0.000803367, 0.000875831, 0.000950509, 0.001028633, 0.001028633, 0.001028633, 0.001028633], degree=3))
            add(Edge.make_bspline(
                [(2.043378804, -1.019854638), (2.053930572, -0.988624898), (2.075355186, -0.925215134), (2.10296696, -0.826851482), (2.124712359, -0.723648718), (2.144275725, -0.616223601), (2.157628781, -0.5037839), (2.168376594, -0.386677516), (2.174707281, -0.264816154), (2.175492032, -0.182021163), (2.175890823, -0.139946785)],
                knots=[0, 0, 0, 0, 9.8886e-05, 0.00020078, 0.000306259, 0.000415188, 0.00052824, 0.000645799, 0.000767957, 0.000894177, 0.000894177, 0.000894177, 0.000894177], degree=3))
            add(Edge.make_bspline(
                [(2.175890823, -0.139946785), (2.175340634, -0.097879212), (2.174264346, -0.015586048), (2.170150359, 0.104932133), (2.159526784, 0.219399894), (2.147727665, 0.328310367), (2.130330444, 0.431060669), (2.111572637, 0.528510975), (2.086371425, 0.619453999), (2.05945165, 0.705313581), (2.028641254, 0.785114236), (1.99472552, 0.859228022), (1.958503761, 0.928012747), (1.919161521, 0.991279688), (1.877165838, 1.049312231), (1.831408289, 1.100946826), (1.783703916, 1.147783794), (1.71688673, 1.201246363), (1.62941244, 1.255758058), (1.520566793, 1.305923818), (1.407296149, 1.334732111), (1.330722695, 1.338793798), (1.292477362, 1.340822446)],
                knots=[0, 0, 0, 0, 0.000126219, 0.000246912, 0.000361616, 0.00047102, 0.00057545, 0.000674176, 0.000768567, 0.000858368, 0.000944043, 0.001024988, 0.001102772, 0.001177091, 0.00124833, 0.001317386, 0.001383826, 0.001448649, 0.001573728, 0.001692043, 0.001806995, 0.001921698, 0.001921698, 0.001921698, 0.001921698], degree=3))
            add(Edge.make_bspline(
                [(1.292477362, 1.340822446), (1.25376677, 1.338790999), (1.176275064, 1.334724405), (1.061827109, 1.306031151), (0.952122758, 1.256018186), (0.864879783, 1.201065813), (0.798015996, 1.148727502), (0.750933303, 1.103341048), (0.706787131, 1.053694793), (0.666119431, 0.999292878), (0.628030148, 0.940827511), (0.593049135, 0.877838746), (0.561531805, 0.810007382), (0.532447269, 0.737390947), (0.506874481, 0.657810002), (0.485780518, 0.570041009), (0.466293465, 0.473579117), (0.452498196, 0.367859609), (0.44023444, 0.253577456), (0.432353092, 0.130300137), (0.426221835, -0.001764243), (0.42600337, -0.092963402), (0.425890823, -0.139946785)],
                knots=[0, 0, 0, 0, 0.000116101, 0.000232413, 0.000351368, 0.000476447, 0.000540832, 0.000605795, 0.000672346, 0.000739935, 0.00080936, 0.000881545, 0.00095588, 0.001033607, 0.001116089, 0.001206384, 0.001304286, 0.001411174, 0.001526077, 0.001649061, 0.001781692, 0.001922624, 0.001922624, 0.001922624, 0.001922624], degree=3))
        make_face(mode=Mode.SUBTRACT)
    extrude(amount=-CUT_EXTRUDE1_DEPTH, mode=Mode.SUBTRACT)


solid = part.part
